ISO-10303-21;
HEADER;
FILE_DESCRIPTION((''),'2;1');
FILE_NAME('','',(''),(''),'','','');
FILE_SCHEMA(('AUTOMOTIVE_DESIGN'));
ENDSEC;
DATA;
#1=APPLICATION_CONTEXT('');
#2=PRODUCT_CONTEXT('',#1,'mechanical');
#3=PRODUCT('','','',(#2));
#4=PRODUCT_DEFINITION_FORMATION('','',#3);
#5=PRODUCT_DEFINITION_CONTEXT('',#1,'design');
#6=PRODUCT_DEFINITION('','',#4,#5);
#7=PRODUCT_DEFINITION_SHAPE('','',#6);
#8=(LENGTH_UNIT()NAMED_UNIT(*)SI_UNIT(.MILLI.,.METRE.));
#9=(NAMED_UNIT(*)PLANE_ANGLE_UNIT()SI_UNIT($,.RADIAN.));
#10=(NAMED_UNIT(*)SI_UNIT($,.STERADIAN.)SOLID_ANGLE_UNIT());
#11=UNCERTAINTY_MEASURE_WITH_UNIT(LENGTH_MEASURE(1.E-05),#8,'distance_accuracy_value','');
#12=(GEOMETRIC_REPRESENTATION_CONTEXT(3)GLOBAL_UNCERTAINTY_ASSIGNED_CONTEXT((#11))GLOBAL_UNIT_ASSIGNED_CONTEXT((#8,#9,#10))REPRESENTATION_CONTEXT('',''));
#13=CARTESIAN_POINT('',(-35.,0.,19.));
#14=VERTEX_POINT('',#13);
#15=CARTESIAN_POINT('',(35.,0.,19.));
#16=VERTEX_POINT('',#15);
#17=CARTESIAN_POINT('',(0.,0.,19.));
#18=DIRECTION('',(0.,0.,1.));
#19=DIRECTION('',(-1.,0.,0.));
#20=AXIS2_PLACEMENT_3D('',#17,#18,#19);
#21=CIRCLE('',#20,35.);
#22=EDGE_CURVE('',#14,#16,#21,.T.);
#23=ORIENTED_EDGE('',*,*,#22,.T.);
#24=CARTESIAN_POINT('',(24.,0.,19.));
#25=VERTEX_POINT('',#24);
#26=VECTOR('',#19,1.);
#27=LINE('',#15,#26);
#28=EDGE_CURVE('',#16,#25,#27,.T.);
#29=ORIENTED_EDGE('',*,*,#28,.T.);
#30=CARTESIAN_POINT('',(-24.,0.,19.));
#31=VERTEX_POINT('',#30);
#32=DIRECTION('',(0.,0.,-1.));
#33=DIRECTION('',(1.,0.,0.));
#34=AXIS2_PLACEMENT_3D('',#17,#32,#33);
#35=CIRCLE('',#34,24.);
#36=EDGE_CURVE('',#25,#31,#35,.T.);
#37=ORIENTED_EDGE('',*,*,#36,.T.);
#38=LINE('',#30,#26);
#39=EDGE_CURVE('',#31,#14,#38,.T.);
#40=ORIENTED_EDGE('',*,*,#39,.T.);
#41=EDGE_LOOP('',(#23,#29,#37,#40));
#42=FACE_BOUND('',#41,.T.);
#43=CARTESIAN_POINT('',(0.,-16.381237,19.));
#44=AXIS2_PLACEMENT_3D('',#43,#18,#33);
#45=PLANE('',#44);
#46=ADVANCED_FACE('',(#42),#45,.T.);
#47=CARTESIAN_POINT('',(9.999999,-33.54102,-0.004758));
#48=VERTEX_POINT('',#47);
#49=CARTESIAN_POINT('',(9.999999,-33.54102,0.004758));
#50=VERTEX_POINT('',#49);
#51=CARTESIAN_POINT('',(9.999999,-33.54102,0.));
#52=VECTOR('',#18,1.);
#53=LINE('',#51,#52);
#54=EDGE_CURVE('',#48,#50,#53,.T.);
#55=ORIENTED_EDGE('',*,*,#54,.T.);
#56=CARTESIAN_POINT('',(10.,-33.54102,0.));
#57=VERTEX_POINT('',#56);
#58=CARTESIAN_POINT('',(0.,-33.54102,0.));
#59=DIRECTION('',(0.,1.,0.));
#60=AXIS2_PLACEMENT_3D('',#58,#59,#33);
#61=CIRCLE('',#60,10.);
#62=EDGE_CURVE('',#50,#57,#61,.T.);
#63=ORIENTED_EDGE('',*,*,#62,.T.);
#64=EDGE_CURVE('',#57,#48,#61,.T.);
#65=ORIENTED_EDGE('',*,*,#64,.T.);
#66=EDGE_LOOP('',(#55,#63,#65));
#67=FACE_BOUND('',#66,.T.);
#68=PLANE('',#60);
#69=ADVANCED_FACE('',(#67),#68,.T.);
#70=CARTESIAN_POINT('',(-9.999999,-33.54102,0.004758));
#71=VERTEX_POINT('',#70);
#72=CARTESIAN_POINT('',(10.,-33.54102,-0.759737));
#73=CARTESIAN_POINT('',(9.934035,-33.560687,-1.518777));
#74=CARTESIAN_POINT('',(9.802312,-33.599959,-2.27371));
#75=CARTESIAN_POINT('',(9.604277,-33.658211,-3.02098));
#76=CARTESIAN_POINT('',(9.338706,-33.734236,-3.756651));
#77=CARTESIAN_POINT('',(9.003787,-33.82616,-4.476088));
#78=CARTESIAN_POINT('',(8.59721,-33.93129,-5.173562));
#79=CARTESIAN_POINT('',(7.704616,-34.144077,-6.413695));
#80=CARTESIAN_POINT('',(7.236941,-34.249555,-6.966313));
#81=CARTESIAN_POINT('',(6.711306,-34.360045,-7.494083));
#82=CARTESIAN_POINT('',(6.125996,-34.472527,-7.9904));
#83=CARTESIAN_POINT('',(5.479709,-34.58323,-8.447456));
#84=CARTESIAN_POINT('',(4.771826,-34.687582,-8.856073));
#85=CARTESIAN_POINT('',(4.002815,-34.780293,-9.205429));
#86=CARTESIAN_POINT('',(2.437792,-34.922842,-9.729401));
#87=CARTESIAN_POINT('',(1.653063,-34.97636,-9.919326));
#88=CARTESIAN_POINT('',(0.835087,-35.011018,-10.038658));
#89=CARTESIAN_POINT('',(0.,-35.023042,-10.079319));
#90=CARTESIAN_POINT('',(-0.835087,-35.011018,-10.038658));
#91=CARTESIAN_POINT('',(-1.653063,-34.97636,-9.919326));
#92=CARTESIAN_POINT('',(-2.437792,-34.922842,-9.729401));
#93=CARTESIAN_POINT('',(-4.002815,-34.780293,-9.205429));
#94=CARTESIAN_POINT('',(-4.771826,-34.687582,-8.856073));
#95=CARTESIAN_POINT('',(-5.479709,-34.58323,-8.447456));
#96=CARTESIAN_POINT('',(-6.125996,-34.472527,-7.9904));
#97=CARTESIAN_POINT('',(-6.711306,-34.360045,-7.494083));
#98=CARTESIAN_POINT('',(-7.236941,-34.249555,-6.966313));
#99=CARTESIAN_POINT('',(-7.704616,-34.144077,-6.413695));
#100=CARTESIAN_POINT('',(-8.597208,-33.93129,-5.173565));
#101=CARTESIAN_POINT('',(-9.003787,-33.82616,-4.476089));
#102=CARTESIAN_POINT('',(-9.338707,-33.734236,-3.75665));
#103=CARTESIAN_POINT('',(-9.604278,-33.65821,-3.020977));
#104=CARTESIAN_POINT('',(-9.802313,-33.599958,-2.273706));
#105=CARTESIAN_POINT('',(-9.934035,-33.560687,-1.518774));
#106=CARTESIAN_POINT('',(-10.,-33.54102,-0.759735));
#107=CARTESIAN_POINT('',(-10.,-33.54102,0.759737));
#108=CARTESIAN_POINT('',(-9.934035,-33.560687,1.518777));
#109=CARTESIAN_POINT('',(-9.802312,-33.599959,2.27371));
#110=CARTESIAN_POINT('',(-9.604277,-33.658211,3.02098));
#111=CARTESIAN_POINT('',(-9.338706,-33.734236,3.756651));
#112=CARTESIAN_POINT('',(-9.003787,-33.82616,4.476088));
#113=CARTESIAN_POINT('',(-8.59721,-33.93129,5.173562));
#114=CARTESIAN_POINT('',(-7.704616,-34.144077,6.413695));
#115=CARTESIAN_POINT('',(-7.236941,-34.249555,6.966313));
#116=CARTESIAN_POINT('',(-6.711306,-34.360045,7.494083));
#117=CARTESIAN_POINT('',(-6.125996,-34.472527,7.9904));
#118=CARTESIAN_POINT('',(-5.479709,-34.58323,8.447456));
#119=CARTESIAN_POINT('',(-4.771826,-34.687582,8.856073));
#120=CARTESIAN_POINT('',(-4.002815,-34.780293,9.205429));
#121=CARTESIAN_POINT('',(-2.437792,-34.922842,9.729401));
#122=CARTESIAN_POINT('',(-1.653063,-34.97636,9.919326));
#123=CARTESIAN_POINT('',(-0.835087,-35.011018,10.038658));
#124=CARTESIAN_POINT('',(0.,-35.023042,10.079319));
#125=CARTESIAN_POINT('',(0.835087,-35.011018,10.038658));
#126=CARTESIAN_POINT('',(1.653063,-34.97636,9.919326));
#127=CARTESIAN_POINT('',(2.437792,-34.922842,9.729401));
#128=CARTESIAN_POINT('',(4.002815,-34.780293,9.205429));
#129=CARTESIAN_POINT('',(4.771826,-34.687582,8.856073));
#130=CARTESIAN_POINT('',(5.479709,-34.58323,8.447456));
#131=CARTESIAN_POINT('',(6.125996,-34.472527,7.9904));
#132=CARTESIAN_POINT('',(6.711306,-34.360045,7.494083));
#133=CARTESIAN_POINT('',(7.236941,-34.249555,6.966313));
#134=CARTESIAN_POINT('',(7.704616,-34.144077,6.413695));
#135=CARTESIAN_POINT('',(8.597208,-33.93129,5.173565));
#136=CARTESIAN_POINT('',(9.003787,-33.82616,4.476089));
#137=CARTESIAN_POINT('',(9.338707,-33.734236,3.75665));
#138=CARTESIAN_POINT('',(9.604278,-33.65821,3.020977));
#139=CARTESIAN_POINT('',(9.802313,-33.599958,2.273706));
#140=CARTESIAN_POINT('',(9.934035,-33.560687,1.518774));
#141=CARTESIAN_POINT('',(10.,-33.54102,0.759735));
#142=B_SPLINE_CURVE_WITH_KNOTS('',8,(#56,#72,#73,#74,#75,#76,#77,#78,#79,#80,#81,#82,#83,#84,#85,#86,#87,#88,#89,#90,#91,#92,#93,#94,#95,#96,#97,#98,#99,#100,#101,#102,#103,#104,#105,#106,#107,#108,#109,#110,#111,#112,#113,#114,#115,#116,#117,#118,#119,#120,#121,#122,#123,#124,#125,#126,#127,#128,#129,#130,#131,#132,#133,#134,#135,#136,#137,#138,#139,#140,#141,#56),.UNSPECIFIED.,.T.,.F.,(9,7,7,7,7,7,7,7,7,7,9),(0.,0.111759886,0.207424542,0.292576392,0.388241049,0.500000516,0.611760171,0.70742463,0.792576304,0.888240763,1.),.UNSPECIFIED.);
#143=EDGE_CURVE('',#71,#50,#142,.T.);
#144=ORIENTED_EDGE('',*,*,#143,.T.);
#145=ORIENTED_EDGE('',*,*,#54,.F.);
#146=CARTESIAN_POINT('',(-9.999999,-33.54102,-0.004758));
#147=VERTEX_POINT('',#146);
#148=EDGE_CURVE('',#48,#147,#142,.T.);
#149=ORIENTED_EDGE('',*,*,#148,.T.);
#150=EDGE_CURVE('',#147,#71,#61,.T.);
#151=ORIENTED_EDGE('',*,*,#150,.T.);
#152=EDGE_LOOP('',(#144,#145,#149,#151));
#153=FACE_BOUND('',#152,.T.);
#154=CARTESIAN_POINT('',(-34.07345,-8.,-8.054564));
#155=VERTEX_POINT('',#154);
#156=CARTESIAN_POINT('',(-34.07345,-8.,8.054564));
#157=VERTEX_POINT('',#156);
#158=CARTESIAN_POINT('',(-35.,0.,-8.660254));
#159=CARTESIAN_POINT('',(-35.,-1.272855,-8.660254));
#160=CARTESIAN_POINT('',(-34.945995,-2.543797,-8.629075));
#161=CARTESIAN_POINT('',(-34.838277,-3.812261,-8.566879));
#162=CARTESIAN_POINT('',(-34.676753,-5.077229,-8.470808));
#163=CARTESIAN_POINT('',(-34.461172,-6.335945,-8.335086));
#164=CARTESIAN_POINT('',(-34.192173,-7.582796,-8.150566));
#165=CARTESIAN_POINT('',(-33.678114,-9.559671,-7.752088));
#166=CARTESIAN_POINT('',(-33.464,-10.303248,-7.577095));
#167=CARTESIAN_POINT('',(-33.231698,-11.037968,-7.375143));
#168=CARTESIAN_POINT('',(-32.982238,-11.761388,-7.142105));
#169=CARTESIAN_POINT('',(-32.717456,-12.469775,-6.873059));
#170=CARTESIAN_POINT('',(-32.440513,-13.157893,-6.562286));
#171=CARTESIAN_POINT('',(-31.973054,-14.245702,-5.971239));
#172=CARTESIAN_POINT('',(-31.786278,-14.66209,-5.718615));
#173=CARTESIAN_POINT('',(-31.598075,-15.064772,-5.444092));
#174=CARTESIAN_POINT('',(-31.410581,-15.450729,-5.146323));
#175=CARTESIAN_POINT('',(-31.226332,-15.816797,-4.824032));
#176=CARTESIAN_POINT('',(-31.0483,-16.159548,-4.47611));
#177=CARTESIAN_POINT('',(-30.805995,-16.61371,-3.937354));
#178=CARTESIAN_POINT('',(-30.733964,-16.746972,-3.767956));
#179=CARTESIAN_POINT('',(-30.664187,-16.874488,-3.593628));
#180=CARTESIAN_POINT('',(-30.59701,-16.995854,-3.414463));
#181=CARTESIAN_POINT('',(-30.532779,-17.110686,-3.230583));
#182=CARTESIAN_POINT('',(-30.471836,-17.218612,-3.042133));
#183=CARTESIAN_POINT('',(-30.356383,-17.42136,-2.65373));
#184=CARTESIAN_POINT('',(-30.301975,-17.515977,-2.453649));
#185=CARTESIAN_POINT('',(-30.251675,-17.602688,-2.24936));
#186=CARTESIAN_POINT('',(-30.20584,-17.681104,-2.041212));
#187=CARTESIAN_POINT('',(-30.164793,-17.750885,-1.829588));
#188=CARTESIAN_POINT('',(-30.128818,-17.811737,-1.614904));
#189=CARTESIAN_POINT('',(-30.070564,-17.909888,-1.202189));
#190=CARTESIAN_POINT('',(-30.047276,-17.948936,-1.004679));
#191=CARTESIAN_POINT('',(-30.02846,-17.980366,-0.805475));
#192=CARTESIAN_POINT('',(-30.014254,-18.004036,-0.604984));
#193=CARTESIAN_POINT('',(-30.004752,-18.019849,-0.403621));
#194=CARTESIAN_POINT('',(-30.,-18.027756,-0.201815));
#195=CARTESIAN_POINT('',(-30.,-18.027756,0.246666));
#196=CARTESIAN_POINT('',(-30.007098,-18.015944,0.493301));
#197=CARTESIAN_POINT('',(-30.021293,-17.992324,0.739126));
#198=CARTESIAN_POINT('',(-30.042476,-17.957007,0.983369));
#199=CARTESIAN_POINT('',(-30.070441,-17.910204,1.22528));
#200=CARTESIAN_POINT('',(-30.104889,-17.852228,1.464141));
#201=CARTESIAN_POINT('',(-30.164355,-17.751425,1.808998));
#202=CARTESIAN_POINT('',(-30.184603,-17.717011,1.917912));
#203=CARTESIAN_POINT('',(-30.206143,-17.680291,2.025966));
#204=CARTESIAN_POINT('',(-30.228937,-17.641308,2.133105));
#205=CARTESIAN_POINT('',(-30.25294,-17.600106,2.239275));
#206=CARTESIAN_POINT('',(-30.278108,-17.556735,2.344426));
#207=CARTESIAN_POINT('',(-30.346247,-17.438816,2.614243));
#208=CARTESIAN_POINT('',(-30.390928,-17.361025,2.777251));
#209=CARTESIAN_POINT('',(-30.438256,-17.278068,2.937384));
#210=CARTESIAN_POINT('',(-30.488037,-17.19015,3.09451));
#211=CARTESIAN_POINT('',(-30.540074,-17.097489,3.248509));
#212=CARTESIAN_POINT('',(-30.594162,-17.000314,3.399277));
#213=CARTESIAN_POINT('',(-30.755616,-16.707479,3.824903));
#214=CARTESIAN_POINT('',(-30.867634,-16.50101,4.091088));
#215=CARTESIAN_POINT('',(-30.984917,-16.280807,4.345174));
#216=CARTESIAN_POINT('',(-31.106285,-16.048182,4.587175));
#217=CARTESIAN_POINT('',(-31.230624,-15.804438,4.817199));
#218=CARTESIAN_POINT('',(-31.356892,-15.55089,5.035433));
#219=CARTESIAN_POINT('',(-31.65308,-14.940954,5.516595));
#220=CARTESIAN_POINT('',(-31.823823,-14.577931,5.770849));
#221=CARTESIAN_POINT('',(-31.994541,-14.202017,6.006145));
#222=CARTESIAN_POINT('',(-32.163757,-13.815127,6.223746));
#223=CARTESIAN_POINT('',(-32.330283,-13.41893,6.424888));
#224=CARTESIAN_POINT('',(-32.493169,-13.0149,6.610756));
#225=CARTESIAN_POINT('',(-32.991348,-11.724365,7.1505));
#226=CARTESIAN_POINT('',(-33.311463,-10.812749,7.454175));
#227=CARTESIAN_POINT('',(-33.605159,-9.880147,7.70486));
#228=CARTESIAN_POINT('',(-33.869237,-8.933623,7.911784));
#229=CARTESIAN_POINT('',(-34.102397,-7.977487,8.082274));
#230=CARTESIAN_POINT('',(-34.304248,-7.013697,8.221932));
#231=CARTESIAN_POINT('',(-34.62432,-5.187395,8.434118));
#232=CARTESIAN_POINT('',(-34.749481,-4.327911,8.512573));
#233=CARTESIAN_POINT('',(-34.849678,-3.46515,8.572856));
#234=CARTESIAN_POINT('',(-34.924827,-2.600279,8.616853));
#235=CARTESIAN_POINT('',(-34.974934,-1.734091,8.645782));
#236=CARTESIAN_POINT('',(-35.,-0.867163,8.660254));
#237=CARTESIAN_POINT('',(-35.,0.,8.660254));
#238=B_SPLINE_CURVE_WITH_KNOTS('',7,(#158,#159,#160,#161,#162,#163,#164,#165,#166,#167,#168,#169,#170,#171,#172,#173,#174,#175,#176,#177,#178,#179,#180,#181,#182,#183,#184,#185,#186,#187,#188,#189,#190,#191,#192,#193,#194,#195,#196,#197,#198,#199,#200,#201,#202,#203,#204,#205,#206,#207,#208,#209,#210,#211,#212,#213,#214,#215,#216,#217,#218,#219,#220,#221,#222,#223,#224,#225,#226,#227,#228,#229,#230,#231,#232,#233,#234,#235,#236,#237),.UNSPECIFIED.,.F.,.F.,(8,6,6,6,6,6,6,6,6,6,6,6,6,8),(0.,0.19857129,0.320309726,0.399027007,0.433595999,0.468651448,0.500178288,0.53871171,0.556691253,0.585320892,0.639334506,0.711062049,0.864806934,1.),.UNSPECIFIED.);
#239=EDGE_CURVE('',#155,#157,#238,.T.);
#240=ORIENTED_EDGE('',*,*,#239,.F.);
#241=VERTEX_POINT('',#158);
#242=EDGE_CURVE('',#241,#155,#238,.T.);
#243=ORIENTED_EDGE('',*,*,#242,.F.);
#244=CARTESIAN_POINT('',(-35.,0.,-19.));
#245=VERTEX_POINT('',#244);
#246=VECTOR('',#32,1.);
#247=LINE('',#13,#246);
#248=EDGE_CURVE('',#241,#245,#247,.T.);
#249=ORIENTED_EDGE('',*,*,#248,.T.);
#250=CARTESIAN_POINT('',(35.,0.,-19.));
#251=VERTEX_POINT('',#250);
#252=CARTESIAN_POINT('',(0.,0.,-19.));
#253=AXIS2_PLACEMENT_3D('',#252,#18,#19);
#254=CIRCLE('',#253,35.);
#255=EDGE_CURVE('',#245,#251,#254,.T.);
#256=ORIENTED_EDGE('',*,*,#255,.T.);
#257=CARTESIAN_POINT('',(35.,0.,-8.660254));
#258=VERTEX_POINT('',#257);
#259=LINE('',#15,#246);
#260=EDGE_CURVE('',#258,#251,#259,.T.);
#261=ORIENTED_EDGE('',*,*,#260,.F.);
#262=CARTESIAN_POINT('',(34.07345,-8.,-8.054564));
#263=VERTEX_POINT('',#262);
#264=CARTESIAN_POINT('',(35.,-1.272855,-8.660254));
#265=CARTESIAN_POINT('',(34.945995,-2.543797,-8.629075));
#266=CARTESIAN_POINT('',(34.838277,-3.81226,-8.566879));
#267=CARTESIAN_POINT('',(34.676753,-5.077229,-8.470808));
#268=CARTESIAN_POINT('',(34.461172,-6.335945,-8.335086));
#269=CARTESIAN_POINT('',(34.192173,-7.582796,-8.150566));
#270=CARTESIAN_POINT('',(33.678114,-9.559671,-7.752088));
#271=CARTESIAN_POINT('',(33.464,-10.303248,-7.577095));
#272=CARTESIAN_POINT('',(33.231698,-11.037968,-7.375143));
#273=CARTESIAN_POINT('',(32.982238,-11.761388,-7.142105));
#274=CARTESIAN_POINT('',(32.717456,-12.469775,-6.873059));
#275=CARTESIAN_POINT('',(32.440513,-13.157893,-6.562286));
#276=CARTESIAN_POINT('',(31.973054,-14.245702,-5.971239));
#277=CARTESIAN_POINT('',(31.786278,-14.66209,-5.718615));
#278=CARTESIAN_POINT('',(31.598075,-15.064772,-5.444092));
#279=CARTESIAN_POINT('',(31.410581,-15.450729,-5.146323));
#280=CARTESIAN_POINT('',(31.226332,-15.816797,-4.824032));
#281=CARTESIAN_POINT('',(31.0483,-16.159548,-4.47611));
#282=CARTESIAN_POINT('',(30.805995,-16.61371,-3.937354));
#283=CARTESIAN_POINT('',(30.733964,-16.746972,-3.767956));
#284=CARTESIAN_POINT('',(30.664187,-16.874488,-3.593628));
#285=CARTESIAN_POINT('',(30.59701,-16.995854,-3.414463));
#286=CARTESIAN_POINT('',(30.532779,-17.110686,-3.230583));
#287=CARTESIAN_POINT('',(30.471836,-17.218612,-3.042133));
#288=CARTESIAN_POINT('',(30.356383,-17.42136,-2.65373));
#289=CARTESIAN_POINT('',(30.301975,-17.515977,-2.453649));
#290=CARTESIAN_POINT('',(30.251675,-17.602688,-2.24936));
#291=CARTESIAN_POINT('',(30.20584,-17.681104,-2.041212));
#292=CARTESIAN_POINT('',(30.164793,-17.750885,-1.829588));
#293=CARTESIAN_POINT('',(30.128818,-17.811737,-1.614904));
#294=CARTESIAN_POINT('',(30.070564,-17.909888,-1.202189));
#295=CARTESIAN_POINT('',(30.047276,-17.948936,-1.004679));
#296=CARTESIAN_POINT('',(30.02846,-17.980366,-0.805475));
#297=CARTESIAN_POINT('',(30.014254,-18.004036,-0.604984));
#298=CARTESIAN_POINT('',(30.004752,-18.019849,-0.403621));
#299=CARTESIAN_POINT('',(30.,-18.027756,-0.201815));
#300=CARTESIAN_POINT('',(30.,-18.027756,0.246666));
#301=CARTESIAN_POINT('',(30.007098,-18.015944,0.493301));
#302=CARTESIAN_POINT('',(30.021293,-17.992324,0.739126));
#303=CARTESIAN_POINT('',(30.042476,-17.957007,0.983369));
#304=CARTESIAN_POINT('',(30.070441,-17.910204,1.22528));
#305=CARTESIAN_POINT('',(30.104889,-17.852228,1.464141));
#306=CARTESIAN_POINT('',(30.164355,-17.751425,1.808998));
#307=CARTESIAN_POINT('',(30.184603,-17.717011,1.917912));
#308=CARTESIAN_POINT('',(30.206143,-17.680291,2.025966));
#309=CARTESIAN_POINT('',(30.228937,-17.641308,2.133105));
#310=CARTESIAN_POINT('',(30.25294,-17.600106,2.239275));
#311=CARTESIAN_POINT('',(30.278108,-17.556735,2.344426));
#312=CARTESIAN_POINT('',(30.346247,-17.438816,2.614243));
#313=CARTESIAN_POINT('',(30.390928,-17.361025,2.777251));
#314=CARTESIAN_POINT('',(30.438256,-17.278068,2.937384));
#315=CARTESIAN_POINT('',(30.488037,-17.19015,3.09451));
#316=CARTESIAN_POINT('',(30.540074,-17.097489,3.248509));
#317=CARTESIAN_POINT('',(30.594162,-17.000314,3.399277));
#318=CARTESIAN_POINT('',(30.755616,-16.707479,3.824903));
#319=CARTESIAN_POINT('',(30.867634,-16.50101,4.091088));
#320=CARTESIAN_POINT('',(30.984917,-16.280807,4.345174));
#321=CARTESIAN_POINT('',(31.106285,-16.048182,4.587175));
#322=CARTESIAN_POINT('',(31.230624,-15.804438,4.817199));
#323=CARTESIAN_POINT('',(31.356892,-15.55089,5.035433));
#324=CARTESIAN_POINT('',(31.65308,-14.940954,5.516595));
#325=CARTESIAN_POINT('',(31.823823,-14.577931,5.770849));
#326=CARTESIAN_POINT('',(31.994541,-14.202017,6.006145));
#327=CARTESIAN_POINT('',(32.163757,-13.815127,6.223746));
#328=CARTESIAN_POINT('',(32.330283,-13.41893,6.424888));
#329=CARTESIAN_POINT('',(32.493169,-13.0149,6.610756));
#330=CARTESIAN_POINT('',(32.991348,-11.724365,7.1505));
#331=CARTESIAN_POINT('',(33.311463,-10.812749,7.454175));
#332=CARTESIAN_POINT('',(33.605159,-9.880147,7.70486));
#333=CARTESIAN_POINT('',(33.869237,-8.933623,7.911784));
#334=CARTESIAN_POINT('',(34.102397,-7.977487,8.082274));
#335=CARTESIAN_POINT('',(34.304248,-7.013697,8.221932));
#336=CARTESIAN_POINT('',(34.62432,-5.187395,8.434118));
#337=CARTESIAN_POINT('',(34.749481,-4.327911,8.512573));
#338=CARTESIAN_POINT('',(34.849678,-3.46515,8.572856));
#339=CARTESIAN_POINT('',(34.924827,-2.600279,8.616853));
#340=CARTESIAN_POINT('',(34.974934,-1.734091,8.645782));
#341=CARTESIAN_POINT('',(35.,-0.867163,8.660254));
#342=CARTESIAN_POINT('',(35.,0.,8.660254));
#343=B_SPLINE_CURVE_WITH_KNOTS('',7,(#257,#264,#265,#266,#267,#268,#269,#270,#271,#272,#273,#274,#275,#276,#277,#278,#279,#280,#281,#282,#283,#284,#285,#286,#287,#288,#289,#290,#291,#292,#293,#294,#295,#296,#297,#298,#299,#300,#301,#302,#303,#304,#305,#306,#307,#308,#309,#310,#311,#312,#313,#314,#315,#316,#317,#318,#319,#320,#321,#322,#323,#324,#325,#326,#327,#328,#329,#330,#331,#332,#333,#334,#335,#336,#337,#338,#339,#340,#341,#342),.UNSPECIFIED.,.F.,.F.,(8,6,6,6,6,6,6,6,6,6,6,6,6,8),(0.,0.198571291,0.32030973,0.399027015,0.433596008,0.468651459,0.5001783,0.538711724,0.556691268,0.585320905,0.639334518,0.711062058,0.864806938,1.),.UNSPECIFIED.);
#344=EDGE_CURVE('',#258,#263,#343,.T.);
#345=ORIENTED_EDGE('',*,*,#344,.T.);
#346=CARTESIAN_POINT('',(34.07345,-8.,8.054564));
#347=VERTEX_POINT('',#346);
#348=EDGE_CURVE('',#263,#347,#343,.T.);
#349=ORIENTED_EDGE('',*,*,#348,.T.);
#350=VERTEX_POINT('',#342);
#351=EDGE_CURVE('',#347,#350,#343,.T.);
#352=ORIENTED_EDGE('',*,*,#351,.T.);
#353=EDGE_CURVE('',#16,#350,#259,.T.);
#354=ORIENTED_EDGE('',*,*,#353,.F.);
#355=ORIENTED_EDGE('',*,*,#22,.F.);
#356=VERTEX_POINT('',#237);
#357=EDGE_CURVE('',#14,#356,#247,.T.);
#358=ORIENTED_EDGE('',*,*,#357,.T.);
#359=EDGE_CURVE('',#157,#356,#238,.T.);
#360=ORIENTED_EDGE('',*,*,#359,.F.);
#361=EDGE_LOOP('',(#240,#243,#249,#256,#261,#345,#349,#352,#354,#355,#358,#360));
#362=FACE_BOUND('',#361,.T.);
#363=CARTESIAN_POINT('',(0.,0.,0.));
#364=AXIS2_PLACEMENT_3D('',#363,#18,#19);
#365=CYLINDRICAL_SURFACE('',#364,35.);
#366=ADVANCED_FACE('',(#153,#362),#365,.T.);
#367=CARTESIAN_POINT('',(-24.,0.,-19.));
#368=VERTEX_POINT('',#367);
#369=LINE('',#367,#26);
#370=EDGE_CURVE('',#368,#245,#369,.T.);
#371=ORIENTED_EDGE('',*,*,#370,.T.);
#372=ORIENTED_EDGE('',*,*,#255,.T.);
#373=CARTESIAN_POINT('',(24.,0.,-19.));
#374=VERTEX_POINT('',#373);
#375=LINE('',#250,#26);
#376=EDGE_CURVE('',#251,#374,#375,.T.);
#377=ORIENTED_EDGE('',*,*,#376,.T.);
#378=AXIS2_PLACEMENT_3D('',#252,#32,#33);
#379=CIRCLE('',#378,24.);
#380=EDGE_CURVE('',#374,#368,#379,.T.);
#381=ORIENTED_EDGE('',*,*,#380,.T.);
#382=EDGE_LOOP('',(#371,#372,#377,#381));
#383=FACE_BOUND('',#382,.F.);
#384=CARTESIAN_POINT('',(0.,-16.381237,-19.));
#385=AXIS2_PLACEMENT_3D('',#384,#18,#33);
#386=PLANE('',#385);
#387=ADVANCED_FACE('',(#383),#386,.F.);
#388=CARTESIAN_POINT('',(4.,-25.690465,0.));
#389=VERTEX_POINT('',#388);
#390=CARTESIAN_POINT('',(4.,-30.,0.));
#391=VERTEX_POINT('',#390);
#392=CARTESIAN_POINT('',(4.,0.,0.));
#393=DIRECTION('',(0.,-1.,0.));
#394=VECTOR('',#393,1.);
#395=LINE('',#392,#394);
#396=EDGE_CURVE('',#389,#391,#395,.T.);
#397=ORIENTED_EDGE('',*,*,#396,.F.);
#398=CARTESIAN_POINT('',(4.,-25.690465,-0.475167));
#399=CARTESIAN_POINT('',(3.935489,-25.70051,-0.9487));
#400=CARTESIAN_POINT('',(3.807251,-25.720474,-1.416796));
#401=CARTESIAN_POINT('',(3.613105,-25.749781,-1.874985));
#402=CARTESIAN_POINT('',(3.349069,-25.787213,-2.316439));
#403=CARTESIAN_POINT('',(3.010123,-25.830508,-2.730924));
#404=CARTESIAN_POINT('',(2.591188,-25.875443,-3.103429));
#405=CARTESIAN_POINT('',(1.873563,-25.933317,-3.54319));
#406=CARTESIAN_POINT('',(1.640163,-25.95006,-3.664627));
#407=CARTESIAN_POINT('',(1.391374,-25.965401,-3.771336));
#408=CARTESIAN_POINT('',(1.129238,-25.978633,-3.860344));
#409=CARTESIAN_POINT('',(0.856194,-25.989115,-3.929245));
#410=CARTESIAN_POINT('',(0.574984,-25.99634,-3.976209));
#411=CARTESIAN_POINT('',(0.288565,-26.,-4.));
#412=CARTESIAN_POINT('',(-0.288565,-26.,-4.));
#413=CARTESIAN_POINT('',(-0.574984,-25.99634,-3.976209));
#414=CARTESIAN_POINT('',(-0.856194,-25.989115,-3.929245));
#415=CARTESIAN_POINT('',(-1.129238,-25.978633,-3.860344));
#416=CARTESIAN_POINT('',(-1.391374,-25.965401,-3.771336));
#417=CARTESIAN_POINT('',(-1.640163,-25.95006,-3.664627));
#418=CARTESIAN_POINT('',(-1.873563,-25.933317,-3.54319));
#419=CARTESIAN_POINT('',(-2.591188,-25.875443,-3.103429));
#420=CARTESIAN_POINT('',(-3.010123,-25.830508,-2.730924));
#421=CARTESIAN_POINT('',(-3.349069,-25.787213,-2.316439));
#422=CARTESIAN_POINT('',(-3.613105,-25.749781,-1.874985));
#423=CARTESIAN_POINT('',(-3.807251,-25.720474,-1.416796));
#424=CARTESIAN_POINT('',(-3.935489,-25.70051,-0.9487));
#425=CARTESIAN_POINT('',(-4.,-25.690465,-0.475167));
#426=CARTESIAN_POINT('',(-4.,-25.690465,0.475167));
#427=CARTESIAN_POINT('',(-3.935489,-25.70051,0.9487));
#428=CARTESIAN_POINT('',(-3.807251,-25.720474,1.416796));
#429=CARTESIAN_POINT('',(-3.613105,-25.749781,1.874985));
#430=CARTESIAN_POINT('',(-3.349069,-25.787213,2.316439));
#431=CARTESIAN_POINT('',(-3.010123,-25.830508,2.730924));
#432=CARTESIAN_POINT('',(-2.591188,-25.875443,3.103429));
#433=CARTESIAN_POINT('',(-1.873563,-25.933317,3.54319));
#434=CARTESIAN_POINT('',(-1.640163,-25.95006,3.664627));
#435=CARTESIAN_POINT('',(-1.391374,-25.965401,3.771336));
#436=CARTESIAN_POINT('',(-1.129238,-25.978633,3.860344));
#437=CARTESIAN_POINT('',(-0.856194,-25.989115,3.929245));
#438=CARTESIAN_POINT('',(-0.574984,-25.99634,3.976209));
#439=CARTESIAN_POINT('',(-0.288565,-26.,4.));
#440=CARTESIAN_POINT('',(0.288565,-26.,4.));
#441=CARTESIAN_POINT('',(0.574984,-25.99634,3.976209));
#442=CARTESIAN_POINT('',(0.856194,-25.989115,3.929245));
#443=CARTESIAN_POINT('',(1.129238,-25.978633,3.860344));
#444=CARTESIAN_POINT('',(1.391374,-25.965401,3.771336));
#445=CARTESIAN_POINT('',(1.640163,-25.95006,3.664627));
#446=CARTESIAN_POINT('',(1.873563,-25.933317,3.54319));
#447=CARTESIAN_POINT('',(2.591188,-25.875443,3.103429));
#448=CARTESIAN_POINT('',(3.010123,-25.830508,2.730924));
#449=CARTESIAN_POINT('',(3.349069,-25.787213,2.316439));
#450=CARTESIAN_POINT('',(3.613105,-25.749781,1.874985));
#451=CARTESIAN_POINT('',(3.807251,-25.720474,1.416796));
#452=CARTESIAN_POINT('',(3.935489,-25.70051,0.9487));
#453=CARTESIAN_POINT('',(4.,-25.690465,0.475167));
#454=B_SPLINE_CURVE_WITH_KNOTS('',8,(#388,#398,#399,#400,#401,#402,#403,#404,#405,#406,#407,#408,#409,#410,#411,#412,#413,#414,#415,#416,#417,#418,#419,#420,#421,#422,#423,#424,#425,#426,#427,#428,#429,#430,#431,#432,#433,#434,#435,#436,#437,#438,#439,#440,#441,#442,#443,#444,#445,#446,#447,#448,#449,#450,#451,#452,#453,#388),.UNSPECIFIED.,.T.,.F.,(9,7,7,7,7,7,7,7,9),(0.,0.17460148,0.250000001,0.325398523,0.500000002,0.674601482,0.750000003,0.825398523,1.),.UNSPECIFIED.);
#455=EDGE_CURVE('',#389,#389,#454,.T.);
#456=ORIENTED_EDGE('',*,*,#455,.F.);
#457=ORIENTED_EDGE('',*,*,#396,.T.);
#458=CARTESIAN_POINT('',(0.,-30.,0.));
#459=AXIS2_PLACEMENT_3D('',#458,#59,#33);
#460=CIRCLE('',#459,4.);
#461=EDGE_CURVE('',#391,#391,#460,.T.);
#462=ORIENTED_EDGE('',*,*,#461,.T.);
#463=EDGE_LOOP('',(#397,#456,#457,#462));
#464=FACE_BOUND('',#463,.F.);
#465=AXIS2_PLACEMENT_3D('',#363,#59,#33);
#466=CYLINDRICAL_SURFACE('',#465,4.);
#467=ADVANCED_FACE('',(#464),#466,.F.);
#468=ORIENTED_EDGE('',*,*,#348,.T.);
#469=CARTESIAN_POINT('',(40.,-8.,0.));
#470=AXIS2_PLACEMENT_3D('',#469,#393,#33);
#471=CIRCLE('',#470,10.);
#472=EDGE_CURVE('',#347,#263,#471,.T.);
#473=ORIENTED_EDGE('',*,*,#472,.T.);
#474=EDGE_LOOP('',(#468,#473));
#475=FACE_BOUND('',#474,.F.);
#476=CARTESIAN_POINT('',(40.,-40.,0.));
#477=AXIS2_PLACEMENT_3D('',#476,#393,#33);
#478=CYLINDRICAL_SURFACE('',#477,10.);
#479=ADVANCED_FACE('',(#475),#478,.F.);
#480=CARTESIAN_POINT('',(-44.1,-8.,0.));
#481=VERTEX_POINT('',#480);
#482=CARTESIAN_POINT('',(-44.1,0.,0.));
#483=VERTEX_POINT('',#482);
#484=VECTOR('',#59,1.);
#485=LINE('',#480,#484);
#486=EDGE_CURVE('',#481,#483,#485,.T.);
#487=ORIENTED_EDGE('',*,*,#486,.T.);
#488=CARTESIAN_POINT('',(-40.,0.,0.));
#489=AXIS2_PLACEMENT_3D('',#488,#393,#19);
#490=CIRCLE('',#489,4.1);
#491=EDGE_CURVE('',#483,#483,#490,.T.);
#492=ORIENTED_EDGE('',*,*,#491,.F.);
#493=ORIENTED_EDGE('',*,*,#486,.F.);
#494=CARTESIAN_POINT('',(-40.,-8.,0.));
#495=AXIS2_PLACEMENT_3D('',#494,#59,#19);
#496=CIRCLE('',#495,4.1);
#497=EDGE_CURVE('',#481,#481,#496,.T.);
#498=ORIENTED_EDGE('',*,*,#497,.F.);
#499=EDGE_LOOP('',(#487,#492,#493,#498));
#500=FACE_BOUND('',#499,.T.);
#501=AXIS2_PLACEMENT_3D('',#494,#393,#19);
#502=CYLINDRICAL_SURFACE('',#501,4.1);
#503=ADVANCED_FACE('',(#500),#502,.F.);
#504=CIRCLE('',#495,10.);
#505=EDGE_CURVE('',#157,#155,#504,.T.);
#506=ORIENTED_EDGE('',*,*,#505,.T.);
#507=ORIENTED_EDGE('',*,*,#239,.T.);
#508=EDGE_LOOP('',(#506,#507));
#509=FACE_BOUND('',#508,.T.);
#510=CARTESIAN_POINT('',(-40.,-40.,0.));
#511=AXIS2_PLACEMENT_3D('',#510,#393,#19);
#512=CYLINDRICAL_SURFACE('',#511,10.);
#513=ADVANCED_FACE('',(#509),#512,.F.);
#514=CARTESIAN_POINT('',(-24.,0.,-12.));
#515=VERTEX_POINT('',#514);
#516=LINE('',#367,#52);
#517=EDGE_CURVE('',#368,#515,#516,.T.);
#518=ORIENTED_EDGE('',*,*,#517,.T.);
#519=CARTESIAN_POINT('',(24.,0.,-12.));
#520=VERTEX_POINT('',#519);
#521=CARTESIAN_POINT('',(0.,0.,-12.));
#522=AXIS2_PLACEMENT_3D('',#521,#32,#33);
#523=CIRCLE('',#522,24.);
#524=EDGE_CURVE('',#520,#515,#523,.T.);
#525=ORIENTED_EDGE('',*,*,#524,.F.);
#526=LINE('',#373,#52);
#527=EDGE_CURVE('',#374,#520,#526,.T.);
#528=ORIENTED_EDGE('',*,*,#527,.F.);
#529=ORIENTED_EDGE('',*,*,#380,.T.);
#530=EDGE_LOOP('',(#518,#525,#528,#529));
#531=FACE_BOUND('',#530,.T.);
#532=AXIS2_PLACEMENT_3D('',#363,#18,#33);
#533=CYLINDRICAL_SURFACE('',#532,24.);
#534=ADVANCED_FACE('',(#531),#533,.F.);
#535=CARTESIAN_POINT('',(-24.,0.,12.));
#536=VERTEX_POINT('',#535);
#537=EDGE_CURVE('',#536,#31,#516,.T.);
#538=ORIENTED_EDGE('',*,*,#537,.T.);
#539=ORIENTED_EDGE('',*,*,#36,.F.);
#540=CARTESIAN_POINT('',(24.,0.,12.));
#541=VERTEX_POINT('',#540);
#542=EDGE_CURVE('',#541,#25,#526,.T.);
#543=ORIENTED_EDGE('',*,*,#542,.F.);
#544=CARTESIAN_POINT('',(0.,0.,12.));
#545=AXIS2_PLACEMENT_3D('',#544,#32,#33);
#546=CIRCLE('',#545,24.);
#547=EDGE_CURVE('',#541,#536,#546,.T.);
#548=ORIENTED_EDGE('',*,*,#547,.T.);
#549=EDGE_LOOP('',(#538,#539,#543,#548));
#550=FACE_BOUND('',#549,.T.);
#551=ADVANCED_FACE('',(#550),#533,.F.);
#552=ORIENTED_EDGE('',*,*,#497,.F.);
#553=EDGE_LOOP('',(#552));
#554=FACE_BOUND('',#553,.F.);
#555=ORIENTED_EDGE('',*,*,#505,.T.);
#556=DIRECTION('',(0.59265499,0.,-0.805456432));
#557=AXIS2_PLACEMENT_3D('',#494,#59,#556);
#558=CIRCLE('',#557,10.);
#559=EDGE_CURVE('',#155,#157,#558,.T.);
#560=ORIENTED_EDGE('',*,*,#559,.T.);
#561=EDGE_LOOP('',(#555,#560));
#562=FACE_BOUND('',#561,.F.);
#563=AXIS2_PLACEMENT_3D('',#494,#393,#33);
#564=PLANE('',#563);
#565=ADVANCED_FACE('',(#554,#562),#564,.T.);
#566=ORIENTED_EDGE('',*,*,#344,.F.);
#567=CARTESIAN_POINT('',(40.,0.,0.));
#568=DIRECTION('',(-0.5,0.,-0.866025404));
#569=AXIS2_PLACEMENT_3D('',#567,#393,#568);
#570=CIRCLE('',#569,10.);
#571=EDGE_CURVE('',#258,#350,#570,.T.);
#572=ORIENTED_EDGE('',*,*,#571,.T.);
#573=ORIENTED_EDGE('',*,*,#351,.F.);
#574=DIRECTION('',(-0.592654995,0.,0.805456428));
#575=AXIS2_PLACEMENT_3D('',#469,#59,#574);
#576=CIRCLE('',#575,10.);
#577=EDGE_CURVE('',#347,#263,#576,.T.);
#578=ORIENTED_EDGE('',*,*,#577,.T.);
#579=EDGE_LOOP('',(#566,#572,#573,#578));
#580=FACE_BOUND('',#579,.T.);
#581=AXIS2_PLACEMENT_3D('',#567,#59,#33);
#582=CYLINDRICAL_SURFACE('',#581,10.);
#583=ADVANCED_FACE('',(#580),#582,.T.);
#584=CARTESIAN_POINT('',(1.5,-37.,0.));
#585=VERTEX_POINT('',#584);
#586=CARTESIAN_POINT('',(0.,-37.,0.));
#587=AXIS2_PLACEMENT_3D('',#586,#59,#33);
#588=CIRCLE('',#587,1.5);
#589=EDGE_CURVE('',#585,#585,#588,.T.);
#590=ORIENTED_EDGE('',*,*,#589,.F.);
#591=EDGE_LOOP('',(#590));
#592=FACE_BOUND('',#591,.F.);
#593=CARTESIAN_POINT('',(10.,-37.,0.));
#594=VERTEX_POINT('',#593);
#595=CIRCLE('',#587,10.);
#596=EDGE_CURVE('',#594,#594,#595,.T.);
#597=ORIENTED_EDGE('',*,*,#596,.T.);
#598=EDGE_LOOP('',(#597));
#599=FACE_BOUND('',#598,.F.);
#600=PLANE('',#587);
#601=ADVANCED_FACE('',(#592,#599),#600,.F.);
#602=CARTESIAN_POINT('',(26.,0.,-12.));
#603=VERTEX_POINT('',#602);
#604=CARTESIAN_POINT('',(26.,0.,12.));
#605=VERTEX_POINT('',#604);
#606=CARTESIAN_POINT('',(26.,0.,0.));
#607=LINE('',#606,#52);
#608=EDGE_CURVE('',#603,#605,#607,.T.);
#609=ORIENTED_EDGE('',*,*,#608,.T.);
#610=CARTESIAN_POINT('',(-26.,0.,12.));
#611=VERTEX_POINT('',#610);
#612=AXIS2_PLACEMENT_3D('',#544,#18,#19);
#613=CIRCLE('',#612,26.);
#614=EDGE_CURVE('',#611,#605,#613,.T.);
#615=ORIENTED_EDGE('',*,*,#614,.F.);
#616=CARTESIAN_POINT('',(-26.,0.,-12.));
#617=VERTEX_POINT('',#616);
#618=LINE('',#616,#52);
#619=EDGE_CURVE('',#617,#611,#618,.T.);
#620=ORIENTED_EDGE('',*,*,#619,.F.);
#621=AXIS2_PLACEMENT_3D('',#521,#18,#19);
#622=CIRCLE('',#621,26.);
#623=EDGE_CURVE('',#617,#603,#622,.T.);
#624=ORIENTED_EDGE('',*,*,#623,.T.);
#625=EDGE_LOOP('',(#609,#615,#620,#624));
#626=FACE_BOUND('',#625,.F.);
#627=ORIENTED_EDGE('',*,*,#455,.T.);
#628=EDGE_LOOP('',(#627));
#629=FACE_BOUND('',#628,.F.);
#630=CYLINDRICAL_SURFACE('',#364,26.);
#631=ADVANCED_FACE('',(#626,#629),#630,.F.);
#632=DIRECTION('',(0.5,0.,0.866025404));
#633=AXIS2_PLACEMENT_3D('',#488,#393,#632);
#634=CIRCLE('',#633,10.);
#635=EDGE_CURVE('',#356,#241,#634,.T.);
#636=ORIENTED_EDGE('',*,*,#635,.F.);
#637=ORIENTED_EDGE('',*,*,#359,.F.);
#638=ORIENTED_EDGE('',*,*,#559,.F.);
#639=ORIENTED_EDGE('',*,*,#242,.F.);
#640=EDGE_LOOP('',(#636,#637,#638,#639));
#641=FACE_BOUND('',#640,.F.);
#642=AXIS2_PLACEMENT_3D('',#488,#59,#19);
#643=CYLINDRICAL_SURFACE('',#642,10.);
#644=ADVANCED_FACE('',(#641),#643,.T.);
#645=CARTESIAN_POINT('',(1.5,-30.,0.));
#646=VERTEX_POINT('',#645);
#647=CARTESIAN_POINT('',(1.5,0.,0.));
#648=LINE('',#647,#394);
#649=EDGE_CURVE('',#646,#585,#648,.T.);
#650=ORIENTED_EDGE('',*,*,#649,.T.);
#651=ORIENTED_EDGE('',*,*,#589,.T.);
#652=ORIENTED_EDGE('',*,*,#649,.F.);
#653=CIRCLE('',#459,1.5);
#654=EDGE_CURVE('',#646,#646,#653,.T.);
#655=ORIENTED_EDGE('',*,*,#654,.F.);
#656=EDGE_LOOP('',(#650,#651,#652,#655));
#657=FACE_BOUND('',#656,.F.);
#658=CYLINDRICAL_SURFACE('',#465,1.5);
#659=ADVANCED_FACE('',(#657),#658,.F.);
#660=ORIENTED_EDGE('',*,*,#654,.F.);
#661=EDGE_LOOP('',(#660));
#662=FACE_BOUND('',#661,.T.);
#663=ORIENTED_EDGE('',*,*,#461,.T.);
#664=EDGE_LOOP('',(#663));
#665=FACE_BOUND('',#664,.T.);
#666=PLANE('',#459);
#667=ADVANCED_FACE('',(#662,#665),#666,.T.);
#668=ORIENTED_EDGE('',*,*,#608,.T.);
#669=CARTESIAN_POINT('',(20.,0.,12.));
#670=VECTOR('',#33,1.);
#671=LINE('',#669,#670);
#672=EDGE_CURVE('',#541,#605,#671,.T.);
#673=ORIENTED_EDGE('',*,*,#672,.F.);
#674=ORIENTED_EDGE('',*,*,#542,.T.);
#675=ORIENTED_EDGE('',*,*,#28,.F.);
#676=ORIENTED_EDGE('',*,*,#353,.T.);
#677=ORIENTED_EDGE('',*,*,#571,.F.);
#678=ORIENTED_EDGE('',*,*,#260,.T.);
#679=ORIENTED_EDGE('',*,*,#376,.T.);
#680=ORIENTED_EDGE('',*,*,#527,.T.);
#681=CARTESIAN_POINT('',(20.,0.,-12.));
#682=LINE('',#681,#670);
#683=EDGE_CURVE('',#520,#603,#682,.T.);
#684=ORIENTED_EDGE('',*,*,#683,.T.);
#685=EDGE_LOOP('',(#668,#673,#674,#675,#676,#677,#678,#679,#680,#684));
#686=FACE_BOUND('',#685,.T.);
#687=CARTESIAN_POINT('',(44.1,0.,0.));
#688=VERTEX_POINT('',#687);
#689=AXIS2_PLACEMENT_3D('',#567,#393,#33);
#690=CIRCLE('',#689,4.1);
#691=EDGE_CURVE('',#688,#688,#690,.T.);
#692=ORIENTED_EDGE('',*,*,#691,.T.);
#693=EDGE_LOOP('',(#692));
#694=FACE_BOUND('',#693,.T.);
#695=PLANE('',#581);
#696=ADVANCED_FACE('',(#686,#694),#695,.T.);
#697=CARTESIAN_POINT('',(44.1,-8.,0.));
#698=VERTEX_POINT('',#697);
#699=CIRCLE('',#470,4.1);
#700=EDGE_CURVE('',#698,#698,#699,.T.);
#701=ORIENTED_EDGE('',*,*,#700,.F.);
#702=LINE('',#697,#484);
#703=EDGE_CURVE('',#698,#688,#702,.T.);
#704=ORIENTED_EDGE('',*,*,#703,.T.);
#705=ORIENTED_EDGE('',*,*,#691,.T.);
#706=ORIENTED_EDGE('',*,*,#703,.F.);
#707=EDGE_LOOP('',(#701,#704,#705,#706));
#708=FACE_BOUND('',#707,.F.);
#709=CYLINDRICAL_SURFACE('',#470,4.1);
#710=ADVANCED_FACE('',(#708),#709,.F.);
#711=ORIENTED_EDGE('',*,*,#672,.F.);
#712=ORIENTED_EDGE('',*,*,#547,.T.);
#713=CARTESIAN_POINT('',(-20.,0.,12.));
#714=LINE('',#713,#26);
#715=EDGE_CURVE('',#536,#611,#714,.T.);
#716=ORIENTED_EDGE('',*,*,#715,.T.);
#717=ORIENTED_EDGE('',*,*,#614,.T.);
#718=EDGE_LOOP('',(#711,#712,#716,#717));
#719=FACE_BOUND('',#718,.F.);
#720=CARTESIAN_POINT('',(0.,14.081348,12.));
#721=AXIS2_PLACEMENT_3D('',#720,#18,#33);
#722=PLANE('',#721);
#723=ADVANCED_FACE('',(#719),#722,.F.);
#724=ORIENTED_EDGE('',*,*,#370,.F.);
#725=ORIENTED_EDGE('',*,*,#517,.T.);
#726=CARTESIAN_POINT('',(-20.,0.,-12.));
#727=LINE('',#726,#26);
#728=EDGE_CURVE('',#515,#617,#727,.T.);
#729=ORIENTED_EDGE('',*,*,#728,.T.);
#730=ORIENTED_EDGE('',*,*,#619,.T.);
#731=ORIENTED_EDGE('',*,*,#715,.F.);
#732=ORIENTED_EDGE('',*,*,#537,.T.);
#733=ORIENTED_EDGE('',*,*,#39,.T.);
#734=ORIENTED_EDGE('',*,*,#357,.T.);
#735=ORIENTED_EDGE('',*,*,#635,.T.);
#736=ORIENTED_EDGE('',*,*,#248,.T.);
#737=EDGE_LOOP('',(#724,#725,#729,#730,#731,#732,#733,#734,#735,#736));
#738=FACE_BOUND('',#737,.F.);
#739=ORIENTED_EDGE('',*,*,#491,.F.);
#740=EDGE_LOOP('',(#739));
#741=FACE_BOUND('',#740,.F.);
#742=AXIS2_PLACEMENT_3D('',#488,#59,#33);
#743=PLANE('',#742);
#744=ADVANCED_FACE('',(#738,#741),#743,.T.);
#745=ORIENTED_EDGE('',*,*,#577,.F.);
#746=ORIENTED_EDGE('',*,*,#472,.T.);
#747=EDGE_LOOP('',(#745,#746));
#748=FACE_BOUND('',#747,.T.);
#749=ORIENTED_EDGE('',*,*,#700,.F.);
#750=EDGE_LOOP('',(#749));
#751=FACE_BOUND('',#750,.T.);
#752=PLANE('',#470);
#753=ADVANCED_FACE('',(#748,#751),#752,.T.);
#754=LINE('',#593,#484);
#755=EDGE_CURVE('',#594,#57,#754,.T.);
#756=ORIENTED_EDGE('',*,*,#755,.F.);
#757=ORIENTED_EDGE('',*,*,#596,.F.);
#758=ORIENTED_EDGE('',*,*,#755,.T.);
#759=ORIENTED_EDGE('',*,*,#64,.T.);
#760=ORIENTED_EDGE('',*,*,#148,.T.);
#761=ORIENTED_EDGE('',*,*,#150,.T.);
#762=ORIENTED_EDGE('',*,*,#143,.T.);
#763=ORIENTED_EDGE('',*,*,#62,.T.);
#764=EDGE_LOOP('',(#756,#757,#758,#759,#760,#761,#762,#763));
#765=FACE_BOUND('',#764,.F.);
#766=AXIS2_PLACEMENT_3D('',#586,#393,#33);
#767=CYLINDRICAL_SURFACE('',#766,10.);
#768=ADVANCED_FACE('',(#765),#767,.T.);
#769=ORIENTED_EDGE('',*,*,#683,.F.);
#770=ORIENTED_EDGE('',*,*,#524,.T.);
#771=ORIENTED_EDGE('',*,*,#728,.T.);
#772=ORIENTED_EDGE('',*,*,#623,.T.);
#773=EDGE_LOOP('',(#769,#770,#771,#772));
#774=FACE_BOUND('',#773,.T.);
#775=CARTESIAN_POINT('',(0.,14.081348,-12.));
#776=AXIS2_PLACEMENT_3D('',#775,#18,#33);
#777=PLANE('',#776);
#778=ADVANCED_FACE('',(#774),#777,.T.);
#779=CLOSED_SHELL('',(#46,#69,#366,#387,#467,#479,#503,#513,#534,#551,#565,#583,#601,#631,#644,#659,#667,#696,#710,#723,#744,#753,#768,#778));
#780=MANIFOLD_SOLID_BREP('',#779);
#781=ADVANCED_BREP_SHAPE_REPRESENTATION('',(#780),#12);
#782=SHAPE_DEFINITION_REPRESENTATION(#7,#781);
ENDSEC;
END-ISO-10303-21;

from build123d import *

# Parameters (mm, degrees)
EXTRUDE_2_DEPTH     = 19
SKETCH_2_R          = 10
EXTRUDE_3_DEPTH     = 40
SKETCH_3_R          = 10
CUT_EXTRUDE_1_DEPTH = 32
SKETCH_4_R          = 4.1
CUT_EXTRUDE_2_DEPTH = 9.0000001
EXTRUDE_START       = -37
SKETCH_5_R          = 10
SKETCH_5_R_2        = 1.5
EXTRUDE_4_DEPTH     = 3.45898
SKETCH_5_4_R        = 1.5
CUT_EXTRUDE_3_DEPTH = 38.0000001
CUT_EXTRUDE_4_DEPTH = 12
SKETCH_6_R          = 4
CUT_EXTRUDE_5_DEPTH = 30


with BuildPart() as part:
    # Эскиз1 → Бобышка-Вытянуть2 (new body, symmetric)
    with BuildSketch(Plane.XY):
        with BuildLine():
            Line((35, 0), (26, 0))
            ThreePointArc((26, 0), (0, -26), (-26, 0))
            Line((-26, 0), (-35, 0))
            ThreePointArc((-35, 0), (0, -35), (35, 0))
        make_face()
        with BuildLine():
            Line((26, 0), (24, 0))
            ThreePointArc((24, 0), (0, -24), (-24, 0))
            Line((-24, 0), (-26, 0))
            ThreePointArc((-26, 0), (0, -26), (26, 0))
        make_face()
    extrude(amount=EXTRUDE_2_DEPTH, both=True)

    # Эскиз2 → Бобышка-Вытянуть3 (add)
    with BuildSketch(Plane(origin=(0, 0, 0), x_dir=(1, 0, 0), z_dir=(0, 1, 0))):
        with Locations((40, 0)):
            Circle(SKETCH_2_R)
    extrude_3 = extrude(amount=-EXTRUDE_3_DEPTH)

    # Эскиз3 → Вырез-Вытянуть1 (cut)
    with BuildSketch(Plane.XZ.offset(40)):
        with Locations((40, 0)):
            Circle(SKETCH_3_R)
    cut_extrude_1 = extrude(amount=-CUT_EXTRUDE_1_DEPTH, mode=Mode.SUBTRACT)

    # Эскиз4 → Вырез-Вытянуть2 (cut, through all)
    with BuildSketch(Plane.XZ.offset(8)):
        with Locations((40, 0)):
            Circle(SKETCH_4_R)
    cut_extrude_2 = extrude(amount=-CUT_EXTRUDE_2_DEPTH, mode=Mode.SUBTRACT)

    # Зеркальное отражение1: Бобышка-Вытянуть3, Вырез-Вытянуть1, Вырез-Вытянуть2 across plane
    add(extrude_3.mirror(Plane(origin=(0, 0, 0), x_dir=(0, 0, 1), z_dir=(1, 0, 0))))
    add(cut_extrude_1.mirror(Plane(origin=(0, 0, 0), x_dir=(0, 0, 1), z_dir=(1, 0, 0))), mode=Mode.SUBTRACT)
    add(cut_extrude_2.mirror(Plane(origin=(0, 0, 0), x_dir=(0, 0, 1), z_dir=(1, 0, 0))), mode=Mode.SUBTRACT)

    # Эскиз5 → Бобышка-Вытянуть4 (add)
    with BuildSketch(Plane(origin=(0, 0, 0), x_dir=(1, 0, 0), z_dir=(0, 1, 0)).offset(EXTRUDE_START)):
        Circle(SKETCH_5_R)
        Circle(SKETCH_5_R_2, mode=Mode.SUBTRACT)
        Circle(SKETCH_5_R_2)
    extrude(amount=EXTRUDE_4_DEPTH)

    # Эскиз5<4> → Вырез-Вытянуть3 (cut, through all)
    with BuildSketch(Plane(origin=(0, 0, 0), x_dir=(1, 0, 0), z_dir=(0, 1, 0))):
        Circle(SKETCH_5_4_R)
    extrude(amount=-CUT_EXTRUDE_3_DEPTH, mode=Mode.SUBTRACT)

    # Эскиз1<4> → Вырез-Вытянуть4 (cut, symmetric)
    with BuildSketch(Plane.XY):
        with BuildLine():
            ThreePointArc((-24, 0), (0, 24), (24, 0))
            Line((24, 0), (26, 0))
            ThreePointArc((26, 0), (0, 26), (-26, 0))
            Line((-26, 0), (-24, 0))
        make_face()
        with BuildLine():
            Line((26, 0), (24, 0))
            ThreePointArc((24, 0), (0, -24), (-24, 0))
            Line((-24, 0), (-26, 0))
            ThreePointArc((-26, 0), (0, -26), (26, 0))
        make_face()
    extrude(amount=CUT_EXTRUDE_4_DEPTH, both=True, mode=Mode.SUBTRACT)

    # Эскиз6 → Вырез-Вытянуть5 (cut)
    with BuildSketch(Plane(origin=(0, 0, 0), x_dir=(1, 0, 0), z_dir=(0, 1, 0))):
        Circle(SKETCH_6_R)
    extrude(amount=-CUT_EXTRUDE_5_DEPTH, mode=Mode.SUBTRACT)


solid = part.part
